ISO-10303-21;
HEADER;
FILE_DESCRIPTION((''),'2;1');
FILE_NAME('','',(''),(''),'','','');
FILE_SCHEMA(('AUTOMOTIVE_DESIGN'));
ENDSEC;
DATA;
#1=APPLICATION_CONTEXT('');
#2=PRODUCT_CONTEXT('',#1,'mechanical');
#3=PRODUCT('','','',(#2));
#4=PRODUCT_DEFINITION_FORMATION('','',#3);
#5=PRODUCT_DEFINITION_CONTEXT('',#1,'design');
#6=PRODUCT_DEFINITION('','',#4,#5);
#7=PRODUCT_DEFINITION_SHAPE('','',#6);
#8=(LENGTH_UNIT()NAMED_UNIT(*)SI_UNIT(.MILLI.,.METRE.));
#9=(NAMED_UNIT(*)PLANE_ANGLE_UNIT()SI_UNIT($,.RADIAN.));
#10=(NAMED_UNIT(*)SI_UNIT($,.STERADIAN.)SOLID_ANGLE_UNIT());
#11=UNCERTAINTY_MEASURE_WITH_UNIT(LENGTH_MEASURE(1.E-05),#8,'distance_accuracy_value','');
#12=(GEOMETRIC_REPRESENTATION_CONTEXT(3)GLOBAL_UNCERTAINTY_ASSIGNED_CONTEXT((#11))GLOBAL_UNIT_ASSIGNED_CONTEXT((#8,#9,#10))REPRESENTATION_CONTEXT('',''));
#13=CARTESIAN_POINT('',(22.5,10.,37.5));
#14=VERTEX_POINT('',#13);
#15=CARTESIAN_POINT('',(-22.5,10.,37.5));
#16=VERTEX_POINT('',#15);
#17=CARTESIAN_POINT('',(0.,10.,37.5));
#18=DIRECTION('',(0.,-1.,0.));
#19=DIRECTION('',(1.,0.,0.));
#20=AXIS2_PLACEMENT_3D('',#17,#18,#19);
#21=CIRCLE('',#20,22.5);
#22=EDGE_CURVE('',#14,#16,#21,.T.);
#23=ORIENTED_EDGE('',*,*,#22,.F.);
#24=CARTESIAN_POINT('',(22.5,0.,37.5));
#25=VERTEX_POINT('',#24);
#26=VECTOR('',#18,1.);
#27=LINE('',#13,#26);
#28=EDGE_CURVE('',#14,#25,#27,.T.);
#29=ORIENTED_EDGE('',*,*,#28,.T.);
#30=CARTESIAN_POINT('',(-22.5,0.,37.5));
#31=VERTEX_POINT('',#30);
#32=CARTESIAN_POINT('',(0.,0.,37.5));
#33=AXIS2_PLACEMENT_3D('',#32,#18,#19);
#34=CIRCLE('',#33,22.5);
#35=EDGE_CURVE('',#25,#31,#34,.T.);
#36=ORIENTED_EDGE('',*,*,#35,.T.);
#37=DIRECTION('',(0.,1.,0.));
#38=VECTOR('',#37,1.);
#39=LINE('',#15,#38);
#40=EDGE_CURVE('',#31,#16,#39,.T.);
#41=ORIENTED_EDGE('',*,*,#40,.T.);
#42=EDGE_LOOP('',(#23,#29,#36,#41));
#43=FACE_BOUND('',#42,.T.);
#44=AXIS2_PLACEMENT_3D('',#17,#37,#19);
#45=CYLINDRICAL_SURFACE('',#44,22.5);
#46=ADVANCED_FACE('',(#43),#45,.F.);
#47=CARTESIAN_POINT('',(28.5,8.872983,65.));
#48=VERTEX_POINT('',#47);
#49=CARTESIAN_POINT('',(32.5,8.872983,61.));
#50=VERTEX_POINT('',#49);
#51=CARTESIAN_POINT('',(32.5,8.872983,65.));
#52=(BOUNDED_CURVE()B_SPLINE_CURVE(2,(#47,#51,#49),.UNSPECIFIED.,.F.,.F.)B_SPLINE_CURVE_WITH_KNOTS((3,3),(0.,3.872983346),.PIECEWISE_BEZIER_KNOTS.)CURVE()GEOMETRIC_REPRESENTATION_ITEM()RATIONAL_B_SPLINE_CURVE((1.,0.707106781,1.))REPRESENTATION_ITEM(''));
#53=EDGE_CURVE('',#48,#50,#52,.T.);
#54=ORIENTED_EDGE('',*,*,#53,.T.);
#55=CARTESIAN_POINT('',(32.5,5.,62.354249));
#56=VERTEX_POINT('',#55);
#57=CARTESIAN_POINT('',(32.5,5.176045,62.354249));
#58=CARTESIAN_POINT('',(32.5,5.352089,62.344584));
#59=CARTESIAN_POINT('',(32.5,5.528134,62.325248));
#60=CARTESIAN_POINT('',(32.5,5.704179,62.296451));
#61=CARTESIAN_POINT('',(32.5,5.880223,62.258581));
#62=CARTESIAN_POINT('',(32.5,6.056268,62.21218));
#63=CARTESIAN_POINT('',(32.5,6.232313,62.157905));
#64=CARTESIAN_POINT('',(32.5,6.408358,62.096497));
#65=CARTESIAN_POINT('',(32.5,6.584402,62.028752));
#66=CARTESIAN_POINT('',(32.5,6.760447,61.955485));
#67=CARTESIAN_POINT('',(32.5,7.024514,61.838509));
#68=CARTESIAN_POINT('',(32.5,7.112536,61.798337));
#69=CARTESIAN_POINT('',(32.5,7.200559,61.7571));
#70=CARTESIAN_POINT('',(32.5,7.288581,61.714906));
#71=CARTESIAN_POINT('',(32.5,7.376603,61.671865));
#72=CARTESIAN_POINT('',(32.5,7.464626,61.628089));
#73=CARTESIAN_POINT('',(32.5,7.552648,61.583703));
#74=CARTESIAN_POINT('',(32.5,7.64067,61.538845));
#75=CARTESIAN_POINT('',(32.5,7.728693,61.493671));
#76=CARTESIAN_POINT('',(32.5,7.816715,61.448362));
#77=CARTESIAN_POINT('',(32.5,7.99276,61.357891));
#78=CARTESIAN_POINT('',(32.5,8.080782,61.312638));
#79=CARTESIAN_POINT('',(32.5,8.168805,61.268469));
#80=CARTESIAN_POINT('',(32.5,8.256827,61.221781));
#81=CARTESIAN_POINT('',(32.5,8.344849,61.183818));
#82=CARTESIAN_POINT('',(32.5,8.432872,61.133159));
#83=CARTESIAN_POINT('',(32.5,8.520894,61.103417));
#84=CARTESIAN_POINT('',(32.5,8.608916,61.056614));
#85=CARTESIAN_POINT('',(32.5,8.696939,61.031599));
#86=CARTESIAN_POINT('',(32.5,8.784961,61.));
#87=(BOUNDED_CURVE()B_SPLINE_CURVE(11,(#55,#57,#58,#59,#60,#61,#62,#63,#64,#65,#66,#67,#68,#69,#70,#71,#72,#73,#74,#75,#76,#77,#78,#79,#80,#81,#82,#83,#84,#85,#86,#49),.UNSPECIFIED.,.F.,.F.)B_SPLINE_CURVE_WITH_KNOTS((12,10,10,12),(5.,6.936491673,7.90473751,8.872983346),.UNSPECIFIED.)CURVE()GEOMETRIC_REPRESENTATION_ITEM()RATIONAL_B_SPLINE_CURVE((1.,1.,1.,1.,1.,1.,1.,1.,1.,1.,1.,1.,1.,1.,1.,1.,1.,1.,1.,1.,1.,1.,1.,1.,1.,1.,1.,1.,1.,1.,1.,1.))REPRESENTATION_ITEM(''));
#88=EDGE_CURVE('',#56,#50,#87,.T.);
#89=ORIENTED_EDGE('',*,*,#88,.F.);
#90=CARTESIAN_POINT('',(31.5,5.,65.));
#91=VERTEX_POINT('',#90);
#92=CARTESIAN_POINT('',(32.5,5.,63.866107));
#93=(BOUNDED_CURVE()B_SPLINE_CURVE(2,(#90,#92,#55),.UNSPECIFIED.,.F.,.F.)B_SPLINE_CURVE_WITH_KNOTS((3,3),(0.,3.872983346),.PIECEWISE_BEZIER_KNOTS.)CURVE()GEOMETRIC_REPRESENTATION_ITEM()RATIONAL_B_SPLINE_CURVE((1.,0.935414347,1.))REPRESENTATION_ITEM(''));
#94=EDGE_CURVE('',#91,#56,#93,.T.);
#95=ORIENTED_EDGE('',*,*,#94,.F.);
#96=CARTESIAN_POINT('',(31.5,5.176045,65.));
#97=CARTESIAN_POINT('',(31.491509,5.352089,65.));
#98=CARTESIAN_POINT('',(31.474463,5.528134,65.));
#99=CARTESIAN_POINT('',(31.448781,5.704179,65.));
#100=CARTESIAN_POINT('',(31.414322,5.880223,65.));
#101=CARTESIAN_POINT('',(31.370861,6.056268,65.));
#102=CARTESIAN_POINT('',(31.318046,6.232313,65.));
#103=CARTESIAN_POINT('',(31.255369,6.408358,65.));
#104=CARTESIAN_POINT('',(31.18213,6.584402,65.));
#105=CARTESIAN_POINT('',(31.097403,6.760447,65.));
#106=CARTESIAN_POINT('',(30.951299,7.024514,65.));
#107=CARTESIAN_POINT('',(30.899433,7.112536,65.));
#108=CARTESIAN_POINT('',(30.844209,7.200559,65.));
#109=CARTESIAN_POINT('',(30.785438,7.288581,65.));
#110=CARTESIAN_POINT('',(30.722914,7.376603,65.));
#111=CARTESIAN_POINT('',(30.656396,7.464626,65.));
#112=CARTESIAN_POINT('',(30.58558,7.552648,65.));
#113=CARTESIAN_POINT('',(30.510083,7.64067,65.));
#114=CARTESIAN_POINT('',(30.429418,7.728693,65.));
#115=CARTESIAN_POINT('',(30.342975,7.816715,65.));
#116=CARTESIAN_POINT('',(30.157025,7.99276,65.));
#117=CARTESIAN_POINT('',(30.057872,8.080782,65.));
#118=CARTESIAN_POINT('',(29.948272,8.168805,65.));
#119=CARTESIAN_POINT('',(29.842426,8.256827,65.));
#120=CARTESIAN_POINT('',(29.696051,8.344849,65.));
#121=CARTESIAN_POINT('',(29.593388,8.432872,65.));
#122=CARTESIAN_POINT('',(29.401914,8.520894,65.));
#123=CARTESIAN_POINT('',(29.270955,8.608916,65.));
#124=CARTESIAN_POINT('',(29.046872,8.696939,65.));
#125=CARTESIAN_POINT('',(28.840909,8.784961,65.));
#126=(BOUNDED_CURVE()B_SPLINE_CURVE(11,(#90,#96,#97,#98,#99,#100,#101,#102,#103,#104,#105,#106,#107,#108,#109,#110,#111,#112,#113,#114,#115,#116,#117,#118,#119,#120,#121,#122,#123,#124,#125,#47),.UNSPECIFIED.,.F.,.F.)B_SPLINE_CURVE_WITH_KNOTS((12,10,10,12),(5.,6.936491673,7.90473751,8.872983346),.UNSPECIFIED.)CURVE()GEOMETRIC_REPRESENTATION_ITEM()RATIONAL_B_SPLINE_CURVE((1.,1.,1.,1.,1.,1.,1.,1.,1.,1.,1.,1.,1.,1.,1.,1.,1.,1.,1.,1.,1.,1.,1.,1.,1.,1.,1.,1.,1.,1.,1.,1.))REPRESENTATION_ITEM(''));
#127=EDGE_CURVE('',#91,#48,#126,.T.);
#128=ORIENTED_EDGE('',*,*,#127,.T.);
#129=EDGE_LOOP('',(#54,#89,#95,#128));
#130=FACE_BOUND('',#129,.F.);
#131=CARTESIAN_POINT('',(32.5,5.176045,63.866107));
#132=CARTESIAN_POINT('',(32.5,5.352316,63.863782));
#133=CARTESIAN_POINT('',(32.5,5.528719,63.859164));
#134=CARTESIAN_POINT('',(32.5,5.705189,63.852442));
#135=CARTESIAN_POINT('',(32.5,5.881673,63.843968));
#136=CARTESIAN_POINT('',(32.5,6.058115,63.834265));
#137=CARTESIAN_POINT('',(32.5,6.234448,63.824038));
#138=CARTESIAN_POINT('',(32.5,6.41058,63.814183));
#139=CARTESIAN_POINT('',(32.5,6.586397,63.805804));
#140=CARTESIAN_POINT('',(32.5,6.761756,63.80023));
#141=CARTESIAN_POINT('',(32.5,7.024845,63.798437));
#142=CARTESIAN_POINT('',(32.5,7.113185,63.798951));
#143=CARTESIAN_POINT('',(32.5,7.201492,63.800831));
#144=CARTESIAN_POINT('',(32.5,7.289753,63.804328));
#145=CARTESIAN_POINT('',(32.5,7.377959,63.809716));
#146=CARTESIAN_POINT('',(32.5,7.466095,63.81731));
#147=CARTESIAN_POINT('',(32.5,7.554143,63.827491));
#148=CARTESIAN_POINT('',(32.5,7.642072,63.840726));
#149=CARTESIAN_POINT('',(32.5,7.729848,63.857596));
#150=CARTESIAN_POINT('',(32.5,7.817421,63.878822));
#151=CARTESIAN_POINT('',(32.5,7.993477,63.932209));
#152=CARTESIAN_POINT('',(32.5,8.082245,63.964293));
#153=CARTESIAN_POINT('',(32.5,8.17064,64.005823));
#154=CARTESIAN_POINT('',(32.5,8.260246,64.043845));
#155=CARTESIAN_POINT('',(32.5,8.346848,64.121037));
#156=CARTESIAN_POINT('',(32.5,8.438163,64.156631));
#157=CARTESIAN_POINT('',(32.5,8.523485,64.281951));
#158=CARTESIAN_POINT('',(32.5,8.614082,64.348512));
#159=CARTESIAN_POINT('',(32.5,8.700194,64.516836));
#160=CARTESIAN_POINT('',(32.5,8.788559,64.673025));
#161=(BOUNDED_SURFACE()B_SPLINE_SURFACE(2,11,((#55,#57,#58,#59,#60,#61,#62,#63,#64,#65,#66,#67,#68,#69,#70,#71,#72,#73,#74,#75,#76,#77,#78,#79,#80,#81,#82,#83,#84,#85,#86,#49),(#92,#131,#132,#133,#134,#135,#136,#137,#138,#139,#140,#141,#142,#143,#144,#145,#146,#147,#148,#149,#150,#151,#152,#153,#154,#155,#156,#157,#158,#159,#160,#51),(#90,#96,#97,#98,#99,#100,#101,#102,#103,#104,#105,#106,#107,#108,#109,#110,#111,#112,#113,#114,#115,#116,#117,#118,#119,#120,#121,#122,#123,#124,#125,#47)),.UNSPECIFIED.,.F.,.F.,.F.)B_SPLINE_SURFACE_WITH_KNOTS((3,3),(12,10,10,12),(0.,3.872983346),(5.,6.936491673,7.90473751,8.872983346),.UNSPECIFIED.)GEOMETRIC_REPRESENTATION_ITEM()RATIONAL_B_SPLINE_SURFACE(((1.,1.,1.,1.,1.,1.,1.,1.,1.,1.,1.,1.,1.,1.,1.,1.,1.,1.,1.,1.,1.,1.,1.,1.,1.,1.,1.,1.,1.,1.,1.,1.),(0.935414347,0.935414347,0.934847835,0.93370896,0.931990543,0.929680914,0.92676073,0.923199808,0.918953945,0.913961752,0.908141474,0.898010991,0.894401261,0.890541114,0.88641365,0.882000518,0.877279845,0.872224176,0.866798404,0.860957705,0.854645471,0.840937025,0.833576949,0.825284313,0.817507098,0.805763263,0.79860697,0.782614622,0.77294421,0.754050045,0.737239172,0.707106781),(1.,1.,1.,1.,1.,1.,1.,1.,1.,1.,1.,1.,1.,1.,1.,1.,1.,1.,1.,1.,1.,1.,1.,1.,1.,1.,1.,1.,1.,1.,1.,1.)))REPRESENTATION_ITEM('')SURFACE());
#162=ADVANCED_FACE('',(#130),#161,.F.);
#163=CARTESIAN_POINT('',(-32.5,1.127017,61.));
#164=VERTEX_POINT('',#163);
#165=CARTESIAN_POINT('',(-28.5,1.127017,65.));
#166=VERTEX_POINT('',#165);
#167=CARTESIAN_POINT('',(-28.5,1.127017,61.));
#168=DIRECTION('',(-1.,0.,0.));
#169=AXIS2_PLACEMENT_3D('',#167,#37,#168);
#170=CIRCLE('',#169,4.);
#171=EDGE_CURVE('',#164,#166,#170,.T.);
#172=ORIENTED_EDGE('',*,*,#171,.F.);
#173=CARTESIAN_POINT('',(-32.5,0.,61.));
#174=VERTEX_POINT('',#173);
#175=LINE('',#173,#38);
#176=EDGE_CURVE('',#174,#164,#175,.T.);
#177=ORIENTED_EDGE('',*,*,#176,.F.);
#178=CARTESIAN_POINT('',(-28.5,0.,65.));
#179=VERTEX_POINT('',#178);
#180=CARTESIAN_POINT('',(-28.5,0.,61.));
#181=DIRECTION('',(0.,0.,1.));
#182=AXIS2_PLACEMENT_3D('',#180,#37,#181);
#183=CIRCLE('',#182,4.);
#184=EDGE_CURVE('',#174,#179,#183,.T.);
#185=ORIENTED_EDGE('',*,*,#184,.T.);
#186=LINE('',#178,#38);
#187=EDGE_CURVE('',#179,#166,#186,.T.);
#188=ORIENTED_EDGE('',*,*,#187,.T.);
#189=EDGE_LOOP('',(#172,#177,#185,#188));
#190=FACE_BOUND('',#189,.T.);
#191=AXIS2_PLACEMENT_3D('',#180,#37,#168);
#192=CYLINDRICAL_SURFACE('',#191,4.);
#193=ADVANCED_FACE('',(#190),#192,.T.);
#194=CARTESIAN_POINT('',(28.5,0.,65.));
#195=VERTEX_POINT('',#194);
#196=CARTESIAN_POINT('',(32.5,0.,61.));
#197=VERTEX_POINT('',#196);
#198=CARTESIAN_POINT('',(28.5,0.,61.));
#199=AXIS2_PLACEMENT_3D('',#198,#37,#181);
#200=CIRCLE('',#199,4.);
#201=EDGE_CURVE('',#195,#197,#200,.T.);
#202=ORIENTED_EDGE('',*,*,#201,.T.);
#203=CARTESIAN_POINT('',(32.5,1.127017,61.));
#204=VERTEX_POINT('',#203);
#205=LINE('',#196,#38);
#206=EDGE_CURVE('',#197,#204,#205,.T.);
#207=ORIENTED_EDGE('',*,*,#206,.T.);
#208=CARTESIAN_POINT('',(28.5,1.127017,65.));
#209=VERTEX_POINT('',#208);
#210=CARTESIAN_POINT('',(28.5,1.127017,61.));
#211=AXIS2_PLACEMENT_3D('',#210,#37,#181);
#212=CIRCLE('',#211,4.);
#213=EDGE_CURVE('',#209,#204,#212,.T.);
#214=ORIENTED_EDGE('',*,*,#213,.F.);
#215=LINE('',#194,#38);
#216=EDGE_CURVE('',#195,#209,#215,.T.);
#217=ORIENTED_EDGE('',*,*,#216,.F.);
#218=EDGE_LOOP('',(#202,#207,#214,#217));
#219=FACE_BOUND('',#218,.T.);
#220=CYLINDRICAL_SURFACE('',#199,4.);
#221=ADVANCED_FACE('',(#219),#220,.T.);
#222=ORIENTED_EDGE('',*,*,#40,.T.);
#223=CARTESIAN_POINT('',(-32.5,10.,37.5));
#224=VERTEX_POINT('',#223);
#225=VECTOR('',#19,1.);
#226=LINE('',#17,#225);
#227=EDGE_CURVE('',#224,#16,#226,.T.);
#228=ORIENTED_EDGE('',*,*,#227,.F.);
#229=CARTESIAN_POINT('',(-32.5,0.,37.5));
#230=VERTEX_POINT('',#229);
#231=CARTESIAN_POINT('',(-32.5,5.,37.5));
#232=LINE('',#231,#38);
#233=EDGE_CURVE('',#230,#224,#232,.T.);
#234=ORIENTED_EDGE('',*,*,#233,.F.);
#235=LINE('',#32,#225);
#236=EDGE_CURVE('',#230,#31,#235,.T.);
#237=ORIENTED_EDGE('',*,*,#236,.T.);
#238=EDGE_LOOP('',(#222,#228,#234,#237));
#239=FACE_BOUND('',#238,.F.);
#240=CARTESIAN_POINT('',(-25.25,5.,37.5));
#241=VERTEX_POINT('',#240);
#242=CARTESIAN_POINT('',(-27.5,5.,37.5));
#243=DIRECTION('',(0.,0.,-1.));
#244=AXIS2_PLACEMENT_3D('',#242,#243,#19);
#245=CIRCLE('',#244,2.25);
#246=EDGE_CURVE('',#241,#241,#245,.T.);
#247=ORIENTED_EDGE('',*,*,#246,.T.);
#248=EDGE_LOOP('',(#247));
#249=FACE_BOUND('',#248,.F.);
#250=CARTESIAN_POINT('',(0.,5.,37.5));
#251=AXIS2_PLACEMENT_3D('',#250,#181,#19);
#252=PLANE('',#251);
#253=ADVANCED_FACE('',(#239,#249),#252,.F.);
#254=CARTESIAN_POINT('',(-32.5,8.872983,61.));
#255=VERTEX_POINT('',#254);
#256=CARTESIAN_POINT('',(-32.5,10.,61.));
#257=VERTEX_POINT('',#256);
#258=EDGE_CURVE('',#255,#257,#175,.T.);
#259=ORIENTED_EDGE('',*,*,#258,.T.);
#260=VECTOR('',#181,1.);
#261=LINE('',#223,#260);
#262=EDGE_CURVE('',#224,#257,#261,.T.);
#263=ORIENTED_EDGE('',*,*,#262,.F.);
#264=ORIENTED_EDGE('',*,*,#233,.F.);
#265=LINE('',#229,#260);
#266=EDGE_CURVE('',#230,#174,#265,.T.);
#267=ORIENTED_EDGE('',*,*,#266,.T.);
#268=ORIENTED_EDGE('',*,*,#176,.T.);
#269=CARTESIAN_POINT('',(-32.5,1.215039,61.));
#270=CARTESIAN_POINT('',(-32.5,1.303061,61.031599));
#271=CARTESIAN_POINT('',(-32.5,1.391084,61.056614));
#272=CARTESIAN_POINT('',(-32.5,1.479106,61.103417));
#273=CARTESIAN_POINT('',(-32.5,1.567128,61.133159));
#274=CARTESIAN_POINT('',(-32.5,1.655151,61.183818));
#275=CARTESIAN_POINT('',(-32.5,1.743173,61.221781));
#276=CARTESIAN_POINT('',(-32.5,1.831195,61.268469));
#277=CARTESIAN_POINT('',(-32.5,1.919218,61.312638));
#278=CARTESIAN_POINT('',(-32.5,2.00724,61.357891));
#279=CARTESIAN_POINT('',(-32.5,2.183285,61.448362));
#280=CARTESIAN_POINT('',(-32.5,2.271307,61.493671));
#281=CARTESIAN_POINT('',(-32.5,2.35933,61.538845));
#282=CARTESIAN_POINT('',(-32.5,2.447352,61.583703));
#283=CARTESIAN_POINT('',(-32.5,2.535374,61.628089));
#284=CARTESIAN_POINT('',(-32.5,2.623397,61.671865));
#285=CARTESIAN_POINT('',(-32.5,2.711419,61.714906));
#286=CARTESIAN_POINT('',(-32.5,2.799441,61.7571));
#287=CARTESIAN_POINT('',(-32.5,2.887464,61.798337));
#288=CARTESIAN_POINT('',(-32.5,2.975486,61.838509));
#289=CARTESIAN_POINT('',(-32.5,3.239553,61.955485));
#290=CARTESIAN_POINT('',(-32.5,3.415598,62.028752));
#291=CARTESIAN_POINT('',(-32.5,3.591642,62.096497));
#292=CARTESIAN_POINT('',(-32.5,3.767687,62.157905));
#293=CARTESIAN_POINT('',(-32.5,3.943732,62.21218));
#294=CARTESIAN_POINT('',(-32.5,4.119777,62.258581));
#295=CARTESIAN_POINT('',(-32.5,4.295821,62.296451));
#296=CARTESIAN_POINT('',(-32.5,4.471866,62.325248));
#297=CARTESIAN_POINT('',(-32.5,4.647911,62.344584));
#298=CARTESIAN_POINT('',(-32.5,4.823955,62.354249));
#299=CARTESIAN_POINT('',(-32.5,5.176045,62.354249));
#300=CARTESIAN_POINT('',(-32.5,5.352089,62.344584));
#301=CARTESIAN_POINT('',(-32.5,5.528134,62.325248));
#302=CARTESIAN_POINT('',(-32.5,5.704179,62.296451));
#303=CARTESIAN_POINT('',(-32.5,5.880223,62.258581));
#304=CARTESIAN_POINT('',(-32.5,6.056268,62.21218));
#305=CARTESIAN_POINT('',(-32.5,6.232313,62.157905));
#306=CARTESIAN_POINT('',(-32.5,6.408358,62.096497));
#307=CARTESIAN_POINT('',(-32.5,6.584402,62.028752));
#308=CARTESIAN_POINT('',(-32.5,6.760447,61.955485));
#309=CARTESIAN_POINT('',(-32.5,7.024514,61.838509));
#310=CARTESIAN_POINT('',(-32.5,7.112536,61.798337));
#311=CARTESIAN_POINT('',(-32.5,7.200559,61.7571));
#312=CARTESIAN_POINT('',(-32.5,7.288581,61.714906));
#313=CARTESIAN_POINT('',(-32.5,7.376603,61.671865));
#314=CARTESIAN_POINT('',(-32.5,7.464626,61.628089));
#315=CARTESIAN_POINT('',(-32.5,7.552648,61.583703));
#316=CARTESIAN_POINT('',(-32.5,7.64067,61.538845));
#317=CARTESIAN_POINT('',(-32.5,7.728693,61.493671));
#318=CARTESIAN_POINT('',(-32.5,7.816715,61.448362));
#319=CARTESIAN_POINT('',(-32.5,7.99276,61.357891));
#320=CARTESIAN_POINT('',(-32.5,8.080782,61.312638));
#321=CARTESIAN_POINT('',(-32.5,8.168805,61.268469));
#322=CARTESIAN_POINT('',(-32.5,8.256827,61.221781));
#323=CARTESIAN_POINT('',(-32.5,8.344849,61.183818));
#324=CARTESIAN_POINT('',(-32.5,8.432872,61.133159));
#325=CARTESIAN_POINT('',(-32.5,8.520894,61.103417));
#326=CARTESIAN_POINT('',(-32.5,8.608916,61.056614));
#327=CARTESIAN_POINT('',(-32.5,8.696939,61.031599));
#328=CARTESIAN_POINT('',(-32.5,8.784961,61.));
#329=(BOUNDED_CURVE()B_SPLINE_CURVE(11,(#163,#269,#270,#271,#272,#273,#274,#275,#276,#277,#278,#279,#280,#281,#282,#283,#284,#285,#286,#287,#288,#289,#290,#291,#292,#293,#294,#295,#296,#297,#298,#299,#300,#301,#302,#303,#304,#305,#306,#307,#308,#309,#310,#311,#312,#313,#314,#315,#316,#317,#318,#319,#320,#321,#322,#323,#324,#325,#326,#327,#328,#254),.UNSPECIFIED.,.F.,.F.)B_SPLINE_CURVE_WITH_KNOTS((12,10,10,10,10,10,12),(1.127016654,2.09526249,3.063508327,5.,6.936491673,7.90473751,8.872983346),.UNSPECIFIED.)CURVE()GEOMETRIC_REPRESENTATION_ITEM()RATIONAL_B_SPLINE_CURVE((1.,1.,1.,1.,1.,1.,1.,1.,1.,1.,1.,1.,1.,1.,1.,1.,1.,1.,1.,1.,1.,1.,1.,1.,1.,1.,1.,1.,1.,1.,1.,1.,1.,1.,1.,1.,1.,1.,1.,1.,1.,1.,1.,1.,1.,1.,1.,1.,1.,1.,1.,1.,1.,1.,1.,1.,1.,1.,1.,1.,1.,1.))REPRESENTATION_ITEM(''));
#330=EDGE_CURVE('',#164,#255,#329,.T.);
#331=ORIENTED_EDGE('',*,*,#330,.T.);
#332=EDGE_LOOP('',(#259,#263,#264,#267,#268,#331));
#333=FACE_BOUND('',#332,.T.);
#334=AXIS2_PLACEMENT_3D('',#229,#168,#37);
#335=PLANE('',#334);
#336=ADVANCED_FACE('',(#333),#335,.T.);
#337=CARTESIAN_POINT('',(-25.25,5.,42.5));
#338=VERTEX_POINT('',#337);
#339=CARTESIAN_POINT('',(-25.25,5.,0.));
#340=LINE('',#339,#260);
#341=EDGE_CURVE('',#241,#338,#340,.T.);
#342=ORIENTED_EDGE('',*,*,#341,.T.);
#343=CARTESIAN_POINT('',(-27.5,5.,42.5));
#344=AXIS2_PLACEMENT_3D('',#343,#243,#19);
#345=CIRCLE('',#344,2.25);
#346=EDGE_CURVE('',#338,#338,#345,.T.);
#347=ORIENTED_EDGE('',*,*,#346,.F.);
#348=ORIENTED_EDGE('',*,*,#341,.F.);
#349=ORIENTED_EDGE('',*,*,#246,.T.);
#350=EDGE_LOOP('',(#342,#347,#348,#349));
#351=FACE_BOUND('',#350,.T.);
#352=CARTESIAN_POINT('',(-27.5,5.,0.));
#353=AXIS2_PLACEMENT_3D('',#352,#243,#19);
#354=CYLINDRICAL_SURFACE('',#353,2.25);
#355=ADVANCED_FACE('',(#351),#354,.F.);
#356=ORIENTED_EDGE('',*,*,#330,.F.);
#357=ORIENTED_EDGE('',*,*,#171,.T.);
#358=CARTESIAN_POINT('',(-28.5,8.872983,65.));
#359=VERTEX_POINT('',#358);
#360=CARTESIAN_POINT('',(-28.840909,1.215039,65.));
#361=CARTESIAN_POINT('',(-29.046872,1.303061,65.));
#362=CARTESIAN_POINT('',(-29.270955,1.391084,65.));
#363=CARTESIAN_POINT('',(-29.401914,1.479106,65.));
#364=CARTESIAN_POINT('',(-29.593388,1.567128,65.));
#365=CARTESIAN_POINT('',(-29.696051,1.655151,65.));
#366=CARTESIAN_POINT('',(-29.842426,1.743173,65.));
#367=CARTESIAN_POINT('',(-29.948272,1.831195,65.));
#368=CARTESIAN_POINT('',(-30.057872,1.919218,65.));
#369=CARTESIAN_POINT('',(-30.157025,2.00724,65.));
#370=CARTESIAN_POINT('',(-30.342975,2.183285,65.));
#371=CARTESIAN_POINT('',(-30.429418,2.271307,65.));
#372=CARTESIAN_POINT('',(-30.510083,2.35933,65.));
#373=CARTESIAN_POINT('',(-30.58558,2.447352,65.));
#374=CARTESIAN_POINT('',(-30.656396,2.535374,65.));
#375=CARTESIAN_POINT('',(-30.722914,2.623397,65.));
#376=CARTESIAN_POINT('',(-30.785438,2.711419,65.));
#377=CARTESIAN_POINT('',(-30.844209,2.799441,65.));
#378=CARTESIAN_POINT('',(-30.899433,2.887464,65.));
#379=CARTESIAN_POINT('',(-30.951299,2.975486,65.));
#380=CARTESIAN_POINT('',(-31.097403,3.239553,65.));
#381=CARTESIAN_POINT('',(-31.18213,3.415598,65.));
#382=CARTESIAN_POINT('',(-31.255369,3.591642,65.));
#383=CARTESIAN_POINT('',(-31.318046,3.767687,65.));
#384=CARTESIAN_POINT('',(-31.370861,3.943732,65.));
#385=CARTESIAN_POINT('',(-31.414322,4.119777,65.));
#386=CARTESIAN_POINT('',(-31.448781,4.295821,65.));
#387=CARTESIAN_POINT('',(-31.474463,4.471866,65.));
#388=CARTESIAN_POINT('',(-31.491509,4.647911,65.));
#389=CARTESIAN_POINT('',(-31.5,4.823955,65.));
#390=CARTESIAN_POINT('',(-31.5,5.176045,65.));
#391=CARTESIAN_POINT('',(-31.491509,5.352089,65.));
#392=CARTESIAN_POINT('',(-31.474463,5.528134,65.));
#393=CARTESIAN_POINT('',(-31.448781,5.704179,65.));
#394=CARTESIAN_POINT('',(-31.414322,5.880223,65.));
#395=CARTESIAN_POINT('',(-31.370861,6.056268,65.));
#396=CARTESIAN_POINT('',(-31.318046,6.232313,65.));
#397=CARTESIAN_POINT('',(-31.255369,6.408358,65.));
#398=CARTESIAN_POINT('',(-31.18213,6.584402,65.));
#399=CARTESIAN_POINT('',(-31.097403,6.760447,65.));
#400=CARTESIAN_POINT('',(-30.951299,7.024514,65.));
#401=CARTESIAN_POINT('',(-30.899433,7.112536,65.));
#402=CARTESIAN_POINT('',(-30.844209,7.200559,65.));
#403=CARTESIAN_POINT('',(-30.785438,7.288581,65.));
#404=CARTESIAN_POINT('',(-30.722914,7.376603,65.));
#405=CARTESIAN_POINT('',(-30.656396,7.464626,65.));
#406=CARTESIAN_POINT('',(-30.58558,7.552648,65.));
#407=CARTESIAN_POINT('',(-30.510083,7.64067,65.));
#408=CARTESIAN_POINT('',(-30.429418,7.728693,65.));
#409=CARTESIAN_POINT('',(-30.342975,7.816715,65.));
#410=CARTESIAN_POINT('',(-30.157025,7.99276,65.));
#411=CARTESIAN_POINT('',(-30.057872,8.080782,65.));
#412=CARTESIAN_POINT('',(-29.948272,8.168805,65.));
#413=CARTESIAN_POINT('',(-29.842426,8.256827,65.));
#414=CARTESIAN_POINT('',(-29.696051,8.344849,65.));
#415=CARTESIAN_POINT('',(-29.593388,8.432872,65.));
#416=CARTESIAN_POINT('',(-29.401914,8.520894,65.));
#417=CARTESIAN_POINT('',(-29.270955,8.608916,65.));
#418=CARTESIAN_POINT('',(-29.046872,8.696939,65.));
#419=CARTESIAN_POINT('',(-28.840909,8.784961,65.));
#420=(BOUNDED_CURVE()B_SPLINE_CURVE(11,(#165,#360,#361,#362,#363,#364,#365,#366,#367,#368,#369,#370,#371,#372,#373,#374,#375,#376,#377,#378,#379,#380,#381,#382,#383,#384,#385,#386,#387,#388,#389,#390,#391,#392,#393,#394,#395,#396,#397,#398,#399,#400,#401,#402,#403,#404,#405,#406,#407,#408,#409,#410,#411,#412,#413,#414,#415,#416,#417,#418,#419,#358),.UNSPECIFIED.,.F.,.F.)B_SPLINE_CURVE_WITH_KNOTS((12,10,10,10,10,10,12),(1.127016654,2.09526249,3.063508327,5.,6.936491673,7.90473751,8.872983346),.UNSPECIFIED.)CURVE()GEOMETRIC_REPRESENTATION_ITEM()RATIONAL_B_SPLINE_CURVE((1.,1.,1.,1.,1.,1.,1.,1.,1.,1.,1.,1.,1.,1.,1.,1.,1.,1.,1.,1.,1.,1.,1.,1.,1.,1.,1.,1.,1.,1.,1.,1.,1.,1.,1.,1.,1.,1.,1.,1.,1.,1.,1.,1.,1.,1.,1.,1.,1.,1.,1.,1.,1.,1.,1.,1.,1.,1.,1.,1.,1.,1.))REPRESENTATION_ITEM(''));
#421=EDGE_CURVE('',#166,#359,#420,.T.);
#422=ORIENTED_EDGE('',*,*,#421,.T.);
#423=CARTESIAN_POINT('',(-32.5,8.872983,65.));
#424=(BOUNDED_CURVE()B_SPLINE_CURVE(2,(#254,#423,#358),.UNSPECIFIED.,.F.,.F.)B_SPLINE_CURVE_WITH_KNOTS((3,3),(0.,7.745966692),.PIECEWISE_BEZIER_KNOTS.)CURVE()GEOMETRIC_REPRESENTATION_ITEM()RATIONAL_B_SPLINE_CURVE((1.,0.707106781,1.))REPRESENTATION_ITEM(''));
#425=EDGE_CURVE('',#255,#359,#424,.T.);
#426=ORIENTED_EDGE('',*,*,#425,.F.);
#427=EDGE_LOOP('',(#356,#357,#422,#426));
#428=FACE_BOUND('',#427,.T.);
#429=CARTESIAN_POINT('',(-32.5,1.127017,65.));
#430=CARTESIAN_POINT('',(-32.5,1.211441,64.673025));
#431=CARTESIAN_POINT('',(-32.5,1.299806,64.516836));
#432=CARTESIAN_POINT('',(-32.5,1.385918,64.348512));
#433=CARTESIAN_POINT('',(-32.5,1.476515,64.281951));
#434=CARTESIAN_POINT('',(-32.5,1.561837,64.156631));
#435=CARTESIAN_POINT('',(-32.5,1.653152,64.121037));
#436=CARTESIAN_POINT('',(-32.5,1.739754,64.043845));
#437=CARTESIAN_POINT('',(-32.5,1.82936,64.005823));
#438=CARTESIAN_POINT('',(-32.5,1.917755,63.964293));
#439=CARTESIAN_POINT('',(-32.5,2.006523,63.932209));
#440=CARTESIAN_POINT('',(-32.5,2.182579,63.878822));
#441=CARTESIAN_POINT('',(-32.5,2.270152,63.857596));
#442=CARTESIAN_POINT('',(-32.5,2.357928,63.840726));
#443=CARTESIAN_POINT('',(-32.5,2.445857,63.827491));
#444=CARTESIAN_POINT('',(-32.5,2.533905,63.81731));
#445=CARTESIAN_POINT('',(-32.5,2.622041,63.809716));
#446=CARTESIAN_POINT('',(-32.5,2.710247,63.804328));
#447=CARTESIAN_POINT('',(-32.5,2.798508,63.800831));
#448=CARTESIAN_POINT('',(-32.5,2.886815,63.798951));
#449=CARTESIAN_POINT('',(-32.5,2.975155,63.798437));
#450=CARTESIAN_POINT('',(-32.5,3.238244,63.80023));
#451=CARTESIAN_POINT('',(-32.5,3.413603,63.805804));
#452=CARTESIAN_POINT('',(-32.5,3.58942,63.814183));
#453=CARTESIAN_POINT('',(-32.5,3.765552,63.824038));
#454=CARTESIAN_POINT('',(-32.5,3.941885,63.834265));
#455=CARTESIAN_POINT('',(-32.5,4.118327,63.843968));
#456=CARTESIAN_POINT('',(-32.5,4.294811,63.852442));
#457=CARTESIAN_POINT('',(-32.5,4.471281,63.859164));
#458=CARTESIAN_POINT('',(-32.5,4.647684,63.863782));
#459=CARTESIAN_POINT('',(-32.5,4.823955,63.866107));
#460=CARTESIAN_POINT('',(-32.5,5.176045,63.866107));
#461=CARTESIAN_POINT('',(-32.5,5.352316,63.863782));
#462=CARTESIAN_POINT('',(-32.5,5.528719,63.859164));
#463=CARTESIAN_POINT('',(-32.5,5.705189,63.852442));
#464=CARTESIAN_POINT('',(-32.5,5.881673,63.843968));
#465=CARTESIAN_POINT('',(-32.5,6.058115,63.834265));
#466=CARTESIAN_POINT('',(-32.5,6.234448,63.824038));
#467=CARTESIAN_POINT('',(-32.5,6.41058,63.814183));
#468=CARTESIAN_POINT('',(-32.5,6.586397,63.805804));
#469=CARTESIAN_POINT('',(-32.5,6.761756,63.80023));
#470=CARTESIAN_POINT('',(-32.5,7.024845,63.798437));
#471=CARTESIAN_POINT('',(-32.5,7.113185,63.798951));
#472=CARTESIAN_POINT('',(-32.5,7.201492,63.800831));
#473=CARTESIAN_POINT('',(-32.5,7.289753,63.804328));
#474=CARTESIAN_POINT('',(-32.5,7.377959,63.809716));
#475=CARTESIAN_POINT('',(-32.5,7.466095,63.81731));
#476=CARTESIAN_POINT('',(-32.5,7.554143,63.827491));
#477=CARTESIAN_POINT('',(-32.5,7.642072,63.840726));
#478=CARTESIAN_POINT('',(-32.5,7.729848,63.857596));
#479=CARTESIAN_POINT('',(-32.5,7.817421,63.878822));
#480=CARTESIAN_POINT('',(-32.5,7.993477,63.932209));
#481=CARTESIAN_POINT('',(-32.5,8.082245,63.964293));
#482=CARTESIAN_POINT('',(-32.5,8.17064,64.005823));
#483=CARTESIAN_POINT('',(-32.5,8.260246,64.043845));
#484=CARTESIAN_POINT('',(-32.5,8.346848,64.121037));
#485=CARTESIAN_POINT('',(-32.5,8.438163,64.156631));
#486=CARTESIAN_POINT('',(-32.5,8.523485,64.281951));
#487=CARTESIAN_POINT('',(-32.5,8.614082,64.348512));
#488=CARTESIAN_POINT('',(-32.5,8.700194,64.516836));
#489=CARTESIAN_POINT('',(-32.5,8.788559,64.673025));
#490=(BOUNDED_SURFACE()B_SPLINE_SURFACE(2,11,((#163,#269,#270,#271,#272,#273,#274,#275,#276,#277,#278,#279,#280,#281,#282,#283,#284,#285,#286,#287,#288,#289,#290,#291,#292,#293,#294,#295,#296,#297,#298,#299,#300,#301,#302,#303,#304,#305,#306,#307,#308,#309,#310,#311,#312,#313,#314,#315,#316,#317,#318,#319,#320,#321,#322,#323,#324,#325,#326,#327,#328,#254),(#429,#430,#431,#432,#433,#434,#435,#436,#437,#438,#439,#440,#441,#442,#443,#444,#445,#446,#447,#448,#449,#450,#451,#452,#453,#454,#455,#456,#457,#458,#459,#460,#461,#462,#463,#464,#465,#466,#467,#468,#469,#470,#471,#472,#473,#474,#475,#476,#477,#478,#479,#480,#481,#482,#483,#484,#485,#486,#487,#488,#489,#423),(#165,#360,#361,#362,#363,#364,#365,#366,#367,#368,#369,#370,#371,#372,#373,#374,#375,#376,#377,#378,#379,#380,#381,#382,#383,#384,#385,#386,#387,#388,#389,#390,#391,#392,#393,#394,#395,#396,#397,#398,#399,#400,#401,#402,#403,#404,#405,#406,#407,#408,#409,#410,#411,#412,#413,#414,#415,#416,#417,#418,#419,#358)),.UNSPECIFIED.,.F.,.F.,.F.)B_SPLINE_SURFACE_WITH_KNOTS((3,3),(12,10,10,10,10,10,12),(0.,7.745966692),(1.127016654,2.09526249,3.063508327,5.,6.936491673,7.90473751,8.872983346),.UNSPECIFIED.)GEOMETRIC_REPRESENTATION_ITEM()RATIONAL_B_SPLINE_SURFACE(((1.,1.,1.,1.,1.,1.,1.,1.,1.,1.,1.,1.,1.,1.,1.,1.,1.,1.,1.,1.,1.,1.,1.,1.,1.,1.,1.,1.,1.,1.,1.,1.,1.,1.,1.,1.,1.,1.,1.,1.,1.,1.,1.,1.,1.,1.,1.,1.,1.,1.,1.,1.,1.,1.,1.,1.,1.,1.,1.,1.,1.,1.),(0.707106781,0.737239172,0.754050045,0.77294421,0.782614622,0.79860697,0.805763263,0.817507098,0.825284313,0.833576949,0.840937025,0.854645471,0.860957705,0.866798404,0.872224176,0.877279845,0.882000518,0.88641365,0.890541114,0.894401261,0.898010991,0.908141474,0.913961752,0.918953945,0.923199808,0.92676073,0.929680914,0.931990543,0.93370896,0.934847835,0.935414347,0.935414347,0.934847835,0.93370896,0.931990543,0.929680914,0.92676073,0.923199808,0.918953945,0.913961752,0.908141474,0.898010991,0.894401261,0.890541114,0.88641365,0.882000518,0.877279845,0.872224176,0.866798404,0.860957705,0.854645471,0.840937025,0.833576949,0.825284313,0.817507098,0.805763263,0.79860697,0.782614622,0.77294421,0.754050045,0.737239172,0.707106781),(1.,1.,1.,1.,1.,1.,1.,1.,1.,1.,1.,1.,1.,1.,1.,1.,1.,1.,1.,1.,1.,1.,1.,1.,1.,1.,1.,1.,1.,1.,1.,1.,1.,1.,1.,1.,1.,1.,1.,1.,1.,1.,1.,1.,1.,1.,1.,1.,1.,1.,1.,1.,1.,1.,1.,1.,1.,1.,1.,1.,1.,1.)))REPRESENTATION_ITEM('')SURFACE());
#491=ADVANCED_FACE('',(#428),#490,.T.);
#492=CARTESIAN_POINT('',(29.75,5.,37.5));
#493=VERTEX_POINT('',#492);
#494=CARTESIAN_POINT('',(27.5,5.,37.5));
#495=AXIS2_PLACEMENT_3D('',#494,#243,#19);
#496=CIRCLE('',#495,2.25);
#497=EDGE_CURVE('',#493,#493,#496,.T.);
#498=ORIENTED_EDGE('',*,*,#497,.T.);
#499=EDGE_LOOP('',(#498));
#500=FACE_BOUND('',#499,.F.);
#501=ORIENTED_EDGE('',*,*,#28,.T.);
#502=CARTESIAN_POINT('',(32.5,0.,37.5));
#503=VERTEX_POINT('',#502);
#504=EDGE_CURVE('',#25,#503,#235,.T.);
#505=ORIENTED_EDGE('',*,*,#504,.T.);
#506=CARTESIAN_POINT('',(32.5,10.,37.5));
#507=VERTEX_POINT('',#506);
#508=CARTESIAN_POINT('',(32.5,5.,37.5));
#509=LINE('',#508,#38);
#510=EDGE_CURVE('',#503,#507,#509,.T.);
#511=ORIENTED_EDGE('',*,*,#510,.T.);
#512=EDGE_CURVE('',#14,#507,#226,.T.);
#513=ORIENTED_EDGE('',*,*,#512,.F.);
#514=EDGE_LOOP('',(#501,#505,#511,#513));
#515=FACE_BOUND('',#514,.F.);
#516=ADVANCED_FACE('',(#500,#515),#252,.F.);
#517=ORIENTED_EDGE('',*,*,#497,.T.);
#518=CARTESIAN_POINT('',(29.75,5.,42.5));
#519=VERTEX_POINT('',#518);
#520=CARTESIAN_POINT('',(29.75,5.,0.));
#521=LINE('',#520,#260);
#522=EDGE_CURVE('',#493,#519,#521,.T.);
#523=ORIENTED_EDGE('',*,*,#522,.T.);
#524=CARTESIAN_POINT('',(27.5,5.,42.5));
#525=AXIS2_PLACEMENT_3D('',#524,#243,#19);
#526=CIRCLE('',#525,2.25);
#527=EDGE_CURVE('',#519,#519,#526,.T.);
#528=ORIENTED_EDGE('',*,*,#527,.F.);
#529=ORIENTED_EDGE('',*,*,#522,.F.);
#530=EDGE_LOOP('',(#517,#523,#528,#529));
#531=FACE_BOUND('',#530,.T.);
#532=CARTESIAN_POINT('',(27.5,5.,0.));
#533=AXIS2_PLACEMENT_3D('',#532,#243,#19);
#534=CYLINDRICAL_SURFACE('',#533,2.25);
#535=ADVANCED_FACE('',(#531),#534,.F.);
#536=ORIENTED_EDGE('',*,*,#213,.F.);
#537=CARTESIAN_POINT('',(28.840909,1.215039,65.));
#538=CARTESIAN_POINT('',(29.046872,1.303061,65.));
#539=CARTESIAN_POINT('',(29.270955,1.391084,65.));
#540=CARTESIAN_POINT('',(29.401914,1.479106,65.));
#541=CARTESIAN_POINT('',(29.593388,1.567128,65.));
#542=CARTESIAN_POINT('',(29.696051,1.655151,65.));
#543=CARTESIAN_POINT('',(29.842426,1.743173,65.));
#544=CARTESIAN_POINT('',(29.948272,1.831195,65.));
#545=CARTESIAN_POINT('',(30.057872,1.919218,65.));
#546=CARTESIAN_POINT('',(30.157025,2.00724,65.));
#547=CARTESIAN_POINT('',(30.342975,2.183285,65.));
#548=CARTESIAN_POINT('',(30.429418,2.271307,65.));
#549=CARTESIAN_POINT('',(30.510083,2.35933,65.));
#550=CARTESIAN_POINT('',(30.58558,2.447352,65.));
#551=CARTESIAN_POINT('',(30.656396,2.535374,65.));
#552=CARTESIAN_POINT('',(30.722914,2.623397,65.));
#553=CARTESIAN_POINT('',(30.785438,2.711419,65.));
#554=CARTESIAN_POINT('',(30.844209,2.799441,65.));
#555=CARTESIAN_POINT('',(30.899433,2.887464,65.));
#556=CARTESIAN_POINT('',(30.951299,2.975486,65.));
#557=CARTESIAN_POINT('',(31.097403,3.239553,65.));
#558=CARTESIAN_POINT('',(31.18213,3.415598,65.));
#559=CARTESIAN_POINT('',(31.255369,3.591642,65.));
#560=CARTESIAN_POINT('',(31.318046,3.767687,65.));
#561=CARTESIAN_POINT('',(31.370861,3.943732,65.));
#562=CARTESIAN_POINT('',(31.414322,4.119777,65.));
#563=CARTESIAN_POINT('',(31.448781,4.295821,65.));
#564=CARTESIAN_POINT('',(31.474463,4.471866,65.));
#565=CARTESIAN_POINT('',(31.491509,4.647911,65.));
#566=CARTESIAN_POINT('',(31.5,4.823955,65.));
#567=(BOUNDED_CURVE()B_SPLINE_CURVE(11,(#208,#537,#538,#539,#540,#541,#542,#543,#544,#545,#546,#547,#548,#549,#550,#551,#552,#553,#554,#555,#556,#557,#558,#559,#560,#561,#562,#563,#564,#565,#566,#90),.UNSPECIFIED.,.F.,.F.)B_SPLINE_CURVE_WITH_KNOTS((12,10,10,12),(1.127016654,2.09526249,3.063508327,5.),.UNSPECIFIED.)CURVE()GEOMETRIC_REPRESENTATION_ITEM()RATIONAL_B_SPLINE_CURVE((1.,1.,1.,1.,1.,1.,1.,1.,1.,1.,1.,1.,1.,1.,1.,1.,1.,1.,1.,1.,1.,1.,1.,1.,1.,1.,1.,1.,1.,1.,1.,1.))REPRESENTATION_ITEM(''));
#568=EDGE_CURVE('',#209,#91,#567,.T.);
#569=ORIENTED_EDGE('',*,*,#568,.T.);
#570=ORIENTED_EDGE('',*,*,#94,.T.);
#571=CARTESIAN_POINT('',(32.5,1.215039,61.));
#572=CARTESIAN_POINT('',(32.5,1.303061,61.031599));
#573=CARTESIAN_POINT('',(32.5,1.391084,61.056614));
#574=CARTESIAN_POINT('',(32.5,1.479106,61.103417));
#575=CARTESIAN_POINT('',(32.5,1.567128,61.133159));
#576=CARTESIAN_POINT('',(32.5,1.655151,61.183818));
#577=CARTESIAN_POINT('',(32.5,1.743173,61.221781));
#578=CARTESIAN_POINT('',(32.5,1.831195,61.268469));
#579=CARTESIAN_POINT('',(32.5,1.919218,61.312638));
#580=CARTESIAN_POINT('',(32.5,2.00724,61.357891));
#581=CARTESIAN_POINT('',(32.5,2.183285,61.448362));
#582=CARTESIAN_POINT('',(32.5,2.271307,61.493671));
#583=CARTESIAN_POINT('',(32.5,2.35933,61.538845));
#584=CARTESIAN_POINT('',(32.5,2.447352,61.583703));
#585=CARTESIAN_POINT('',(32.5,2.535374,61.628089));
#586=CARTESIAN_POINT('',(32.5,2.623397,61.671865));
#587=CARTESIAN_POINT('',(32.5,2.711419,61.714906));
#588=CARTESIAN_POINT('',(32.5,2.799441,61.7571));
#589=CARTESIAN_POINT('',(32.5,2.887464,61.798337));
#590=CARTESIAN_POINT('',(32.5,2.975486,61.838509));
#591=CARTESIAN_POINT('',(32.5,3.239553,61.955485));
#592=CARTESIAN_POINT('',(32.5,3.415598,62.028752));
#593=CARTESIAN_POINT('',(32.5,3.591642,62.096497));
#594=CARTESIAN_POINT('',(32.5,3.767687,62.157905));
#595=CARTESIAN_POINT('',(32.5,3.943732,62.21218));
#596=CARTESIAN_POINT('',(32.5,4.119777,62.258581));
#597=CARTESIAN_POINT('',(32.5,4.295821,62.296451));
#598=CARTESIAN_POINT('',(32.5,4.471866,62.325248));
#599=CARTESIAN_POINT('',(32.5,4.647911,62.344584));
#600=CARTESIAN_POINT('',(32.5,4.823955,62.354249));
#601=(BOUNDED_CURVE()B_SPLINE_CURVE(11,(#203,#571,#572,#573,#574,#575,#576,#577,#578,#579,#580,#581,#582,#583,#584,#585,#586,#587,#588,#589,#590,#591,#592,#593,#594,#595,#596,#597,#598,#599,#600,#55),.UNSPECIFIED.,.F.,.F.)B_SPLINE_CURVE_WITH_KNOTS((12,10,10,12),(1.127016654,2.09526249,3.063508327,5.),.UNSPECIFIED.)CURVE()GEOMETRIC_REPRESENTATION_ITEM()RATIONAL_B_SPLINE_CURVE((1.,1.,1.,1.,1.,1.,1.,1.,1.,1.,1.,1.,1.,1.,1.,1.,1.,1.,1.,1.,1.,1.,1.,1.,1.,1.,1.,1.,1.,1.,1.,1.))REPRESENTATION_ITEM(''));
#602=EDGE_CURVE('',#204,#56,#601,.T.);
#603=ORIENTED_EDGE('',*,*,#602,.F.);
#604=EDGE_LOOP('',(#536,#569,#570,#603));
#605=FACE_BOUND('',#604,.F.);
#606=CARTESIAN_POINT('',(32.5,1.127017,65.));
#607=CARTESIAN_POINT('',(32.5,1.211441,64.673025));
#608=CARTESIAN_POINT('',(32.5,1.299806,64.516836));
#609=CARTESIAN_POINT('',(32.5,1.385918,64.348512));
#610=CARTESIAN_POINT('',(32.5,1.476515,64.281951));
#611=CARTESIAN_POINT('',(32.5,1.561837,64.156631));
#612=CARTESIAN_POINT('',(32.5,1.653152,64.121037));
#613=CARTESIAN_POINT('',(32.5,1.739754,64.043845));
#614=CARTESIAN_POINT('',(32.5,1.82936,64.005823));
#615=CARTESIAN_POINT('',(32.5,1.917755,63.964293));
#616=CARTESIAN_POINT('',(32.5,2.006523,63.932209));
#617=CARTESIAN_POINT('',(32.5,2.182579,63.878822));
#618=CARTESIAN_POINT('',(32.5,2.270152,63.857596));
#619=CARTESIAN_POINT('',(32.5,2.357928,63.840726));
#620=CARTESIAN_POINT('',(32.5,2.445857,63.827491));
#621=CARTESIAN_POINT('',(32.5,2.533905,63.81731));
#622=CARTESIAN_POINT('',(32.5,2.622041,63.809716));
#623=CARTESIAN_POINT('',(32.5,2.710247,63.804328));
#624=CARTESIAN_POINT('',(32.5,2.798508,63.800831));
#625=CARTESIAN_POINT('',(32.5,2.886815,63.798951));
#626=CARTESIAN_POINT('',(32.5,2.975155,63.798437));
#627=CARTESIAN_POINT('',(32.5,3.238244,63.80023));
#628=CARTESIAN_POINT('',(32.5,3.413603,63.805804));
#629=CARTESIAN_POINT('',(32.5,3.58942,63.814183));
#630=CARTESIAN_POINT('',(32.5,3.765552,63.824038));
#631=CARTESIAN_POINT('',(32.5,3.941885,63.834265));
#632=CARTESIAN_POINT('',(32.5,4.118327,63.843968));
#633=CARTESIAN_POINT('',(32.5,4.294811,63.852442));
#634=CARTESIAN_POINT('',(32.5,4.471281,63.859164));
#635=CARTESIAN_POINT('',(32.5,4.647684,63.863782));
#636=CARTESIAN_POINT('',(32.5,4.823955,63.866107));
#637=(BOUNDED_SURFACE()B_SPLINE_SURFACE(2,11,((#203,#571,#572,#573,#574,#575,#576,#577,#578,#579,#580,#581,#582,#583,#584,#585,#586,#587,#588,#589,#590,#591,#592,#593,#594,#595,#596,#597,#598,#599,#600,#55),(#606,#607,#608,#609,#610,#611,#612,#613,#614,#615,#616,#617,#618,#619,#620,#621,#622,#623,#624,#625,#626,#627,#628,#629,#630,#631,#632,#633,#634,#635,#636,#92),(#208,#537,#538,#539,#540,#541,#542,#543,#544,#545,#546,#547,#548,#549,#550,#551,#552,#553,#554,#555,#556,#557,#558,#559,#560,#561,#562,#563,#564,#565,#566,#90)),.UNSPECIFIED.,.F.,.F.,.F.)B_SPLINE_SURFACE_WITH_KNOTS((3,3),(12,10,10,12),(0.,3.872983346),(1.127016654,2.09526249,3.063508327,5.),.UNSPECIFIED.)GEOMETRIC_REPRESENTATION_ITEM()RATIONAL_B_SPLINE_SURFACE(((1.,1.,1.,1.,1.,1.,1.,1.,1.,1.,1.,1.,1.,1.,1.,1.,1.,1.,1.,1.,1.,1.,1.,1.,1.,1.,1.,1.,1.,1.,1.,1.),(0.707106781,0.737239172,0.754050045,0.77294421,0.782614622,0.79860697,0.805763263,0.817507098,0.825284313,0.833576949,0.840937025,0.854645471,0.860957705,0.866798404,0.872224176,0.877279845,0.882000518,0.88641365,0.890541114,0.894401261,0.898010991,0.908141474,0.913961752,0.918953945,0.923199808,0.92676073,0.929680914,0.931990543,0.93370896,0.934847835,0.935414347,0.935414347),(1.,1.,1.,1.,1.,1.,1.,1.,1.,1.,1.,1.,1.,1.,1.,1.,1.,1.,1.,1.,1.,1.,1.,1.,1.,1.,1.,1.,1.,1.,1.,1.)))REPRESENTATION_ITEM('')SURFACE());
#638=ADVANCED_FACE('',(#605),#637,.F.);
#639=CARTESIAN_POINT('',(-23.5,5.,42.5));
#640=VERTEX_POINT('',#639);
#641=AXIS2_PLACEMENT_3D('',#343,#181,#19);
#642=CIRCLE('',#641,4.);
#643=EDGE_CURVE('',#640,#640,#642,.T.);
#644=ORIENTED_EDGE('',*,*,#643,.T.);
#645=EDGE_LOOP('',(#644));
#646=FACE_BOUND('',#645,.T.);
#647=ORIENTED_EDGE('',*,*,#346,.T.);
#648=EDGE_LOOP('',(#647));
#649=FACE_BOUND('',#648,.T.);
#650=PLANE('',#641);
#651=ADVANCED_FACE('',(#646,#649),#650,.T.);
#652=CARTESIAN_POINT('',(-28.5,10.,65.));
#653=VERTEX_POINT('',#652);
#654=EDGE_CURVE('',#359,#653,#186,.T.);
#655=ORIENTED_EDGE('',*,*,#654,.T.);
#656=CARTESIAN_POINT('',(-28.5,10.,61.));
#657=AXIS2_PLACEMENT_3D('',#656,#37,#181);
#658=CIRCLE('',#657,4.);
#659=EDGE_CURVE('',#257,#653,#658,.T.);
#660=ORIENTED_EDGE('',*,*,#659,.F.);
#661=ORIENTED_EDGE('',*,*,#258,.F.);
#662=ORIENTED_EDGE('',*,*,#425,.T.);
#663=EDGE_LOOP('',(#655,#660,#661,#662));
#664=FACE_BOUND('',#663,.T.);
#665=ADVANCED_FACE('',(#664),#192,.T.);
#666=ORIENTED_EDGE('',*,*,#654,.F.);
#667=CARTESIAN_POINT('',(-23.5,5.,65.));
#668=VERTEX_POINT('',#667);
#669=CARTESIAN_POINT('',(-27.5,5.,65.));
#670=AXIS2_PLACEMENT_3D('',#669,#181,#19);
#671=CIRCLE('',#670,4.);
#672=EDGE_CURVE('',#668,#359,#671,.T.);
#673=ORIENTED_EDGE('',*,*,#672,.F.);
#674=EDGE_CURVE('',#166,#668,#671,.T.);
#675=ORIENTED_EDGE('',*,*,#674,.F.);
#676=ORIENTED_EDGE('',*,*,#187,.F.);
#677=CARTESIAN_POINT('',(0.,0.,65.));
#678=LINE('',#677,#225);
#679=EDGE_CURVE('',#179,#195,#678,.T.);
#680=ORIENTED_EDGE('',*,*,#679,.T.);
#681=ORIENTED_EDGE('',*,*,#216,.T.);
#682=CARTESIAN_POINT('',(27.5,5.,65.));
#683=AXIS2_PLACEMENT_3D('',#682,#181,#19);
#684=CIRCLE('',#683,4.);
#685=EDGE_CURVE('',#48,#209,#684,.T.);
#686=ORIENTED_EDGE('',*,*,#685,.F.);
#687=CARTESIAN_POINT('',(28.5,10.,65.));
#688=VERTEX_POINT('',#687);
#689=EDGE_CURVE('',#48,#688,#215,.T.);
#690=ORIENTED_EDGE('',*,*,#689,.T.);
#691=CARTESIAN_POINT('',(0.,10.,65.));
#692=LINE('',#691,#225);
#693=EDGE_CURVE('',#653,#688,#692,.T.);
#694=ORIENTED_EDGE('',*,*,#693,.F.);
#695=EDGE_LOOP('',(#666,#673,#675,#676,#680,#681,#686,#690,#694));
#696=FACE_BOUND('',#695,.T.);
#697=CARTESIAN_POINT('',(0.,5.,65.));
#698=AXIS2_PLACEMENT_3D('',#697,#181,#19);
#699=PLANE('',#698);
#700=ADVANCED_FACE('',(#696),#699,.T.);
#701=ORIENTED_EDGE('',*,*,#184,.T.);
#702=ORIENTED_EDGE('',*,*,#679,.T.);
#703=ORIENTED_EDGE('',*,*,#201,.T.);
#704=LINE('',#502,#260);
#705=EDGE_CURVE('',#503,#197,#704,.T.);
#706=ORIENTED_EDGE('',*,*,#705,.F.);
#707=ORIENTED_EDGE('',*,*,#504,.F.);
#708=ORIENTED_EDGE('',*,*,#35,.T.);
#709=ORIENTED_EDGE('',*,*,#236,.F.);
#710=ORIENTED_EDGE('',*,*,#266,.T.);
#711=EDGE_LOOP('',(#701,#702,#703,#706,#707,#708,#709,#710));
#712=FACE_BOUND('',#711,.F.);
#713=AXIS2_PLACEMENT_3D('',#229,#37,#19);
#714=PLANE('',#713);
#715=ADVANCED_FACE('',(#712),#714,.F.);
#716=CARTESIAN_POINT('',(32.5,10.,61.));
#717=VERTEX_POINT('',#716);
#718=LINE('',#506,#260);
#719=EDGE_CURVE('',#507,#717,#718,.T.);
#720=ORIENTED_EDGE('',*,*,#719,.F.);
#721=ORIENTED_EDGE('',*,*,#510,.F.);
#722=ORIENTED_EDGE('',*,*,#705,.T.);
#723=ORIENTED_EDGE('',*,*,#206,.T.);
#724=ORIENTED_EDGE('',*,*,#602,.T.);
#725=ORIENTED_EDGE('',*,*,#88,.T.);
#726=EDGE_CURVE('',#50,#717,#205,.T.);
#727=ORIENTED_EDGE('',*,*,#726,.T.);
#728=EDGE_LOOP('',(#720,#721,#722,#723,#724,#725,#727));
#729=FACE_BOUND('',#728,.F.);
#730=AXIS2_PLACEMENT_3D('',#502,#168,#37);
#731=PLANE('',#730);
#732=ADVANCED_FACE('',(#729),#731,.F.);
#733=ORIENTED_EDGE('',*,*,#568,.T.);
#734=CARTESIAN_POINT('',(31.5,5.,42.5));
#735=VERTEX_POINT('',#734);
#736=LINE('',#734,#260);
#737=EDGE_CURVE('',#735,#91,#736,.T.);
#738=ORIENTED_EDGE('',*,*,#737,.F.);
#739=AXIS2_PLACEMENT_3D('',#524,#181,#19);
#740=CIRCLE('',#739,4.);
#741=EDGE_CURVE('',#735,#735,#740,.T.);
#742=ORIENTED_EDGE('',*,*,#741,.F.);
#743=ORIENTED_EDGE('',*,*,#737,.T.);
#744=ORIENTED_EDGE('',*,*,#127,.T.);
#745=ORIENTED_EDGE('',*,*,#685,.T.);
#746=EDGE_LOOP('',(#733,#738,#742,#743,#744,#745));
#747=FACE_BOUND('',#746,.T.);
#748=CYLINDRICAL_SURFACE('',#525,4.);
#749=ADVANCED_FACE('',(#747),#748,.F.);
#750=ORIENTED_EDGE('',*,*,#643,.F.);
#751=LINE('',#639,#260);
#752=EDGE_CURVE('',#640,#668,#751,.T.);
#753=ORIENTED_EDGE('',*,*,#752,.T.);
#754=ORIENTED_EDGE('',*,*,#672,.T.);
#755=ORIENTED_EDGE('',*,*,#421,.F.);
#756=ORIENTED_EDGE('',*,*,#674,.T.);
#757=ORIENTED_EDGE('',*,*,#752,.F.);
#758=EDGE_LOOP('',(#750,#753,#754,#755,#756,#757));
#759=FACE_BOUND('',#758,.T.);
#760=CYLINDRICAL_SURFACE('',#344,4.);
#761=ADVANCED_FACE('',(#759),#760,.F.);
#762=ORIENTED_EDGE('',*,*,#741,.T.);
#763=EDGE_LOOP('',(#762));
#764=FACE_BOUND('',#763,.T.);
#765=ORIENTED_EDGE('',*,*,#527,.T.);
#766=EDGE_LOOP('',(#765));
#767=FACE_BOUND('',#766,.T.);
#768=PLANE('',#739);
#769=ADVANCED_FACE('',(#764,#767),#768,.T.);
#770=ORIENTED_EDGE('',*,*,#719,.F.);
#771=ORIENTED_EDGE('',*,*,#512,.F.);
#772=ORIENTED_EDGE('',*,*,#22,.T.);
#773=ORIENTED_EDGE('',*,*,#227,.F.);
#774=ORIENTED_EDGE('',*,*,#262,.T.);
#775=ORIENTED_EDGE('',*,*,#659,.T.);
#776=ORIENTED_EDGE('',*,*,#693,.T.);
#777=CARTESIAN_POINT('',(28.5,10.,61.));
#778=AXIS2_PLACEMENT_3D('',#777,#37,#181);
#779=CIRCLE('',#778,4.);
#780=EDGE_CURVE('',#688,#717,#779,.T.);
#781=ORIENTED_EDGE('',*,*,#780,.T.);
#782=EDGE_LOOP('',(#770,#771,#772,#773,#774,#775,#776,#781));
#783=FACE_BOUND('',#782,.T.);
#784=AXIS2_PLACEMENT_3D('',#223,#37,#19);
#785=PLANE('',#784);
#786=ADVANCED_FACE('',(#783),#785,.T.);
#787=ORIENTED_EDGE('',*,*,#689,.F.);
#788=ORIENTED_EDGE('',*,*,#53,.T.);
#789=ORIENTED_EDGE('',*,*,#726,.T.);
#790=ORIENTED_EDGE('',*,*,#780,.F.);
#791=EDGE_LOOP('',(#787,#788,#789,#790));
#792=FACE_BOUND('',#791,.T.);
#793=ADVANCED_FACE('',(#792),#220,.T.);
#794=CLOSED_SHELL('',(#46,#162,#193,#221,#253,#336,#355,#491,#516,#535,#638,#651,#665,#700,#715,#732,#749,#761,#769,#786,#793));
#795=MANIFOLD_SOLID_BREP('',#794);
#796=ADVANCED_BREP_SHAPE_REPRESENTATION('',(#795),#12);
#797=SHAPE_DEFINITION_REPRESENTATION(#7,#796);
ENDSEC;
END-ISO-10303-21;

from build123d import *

# Parameters (mm, degrees)
CYLINDER001_R     = 22.5
CYLINDER001_DEPTH = 10
CYLINDER017_R     = 4
CYLINDER017_DEPTH = 22.5
CYLINDER016_R     = 4
CYLINDER016_DEPTH = 22.5
CYLINDER015_R     = 4
CYLINDER015_DEPTH = 28.5
CYLINDER013_R     = 2.25
CYLINDER013_DEPTH = 65
CYLINDER012_R     = 2.25
CYLINDER012_DEPTH = 65
PAD004_DEPTH      = 4
PAD003_DEPTH      = 4
CYLINDER014_R     = 4
CYLINDER014_DEPTH = 28.5
BOX002_W          = 65
BOX002_H          = 10
BOX002_DEPTH      = 27.5
FILLET001_R       = 4


with BuildPart() as cylinder001:
    # Cylinder001 → Cylinder001 (new body)
    with BuildSketch(Plane(origin=(0, 10, 37.5), x_dir=(1, 0, 0), z_dir=(0, -1, 0))):
        Circle(CYLINDER001_R)
    extrude(amount=CYLINDER001_DEPTH)


with BuildPart() as cylinder017:
    # Cylinder017 → Cylinder017 (new body)
    with BuildSketch(Plane(origin=(-27.5, 5, 0), x_dir=(1, 0, 0), z_dir=(0, 0, 1))):
        Circle(CYLINDER017_R)
    extrude(amount=CYLINDER017_DEPTH)


with BuildPart() as fusion009:
    # Cylinder016 → Cylinder016 (new body)
    with BuildSketch(Plane(origin=(27.5, 5, 0), x_dir=(1, 0, 0), z_dir=(0, 0, 1))):
        Circle(CYLINDER016_R)
    extrude(amount=CYLINDER016_DEPTH)

    # Fusion009: union Cylinder017
    add(cylinder017.part)


with BuildPart() as fusion009_1:
    # Fusion009 placement: moved
    add(fusion009.part.moved(Location((0, 0, 42.5))))


with BuildPart() as cylinder015:
    # Cylinder015 → Cylinder015 (new body)
    with BuildSketch(Plane(origin=(-27.5, 5, 0), x_dir=(1, 0, 0), z_dir=(0, 0, 1))):
        Circle(CYLINDER015_R)
    extrude(amount=CYLINDER015_DEPTH)


with BuildPart() as cylinder013:
    # Cylinder013 → Cylinder013 (new body)
    with BuildSketch(Plane(origin=(-27.5, 5, 0), x_dir=(1, 0, 0), z_dir=(0, 0, 1))):
        Circle(CYLINDER013_R)
    extrude(amount=CYLINDER013_DEPTH)


with BuildPart() as fusion007:
    # Cylinder012 → Cylinder012 (new body)
    with BuildSketch(Plane(origin=(27.5, 5, 0), x_dir=(1, 0, 0), z_dir=(0, 0, 1))):
        Circle(CYLINDER012_R)
    extrude(amount=CYLINDER012_DEPTH)

    # Fusion007: union Cylinder013
    add(cylinder013.part)


with BuildPart() as m4press003:
    # Sketch004 → Pad004 (new body)
    with BuildSketch(Plane.XY):
        Polygon((4, 0), (2, 3.464102), (-2, 3.464102), (-4, 0), (-2, -3.464102), (2, -3.464102), align=None)
    extrude(amount=PAD004_DEPTH)


with BuildPart() as m4press003_1:
    # Body004 placement: moved
    add(m4press003.part.moved(Location((27.5, 5, 28.5))))


with BuildPart() as m4press002:
    # Sketch003 → Pad003 (new body)
    with BuildSketch(Plane.XY):
        Polygon((4, 0), (2, 3.464102), (-2, 3.464102), (-4, 0), (-2, -3.464102), (2, -3.464102), align=None)
    extrude(amount=PAD003_DEPTH)


with BuildPart() as m4press002_1:
    # Body003 placement: moved
    add(m4press002.part.moved(Location((-27.5, 5, 28.5))))


with BuildPart() as connectors001:
    # Cylinder014 → Cylinder014 (new body)
    with BuildSketch(Plane(origin=(27.5, 5, 0), x_dir=(1, 0, 0), z_dir=(0, 0, 1))):
        Circle(CYLINDER014_R)
    extrude(amount=CYLINDER014_DEPTH)

    # Fusion008: union Cylinder015, Fusion007, M4Press003, M4Press002
    add(cylinder015.part)
    add(fusion007.part)
    add(m4press003_1.part)
    add(m4press002_1.part)


with BuildPart() as upper_part:
    # Box002 → Box002 (new body)
    with BuildSketch(Plane(origin=(-32.5, 0, 37.5), x_dir=(1, 0, 0), z_dir=(0, 0, 1))):
        with Locations((32.5, 5)):
            Rectangle(BOX002_W, BOX002_H)
    extrude(amount=BOX002_DEPTH)

    # Cut003: cut Connectors001
    add(connectors001.part, mode=Mode.SUBTRACT)

    # Cut004: cut Fusion009
    add(fusion009_1.part, mode=Mode.SUBTRACT)

    # Cut005: cut Cylinder001
    add(cylinder001.part, mode=Mode.SUBTRACT)

    # Fillet001
    fillet001_edges = [upper_part.edges().sort_by_distance(p)[0] for p in [
        (-32.5, 5, 65),
        (32.5, 5, 65),
    ]]
    fillet(fillet001_edges, radius=FILLET001_R)


solid = upper_part.part
